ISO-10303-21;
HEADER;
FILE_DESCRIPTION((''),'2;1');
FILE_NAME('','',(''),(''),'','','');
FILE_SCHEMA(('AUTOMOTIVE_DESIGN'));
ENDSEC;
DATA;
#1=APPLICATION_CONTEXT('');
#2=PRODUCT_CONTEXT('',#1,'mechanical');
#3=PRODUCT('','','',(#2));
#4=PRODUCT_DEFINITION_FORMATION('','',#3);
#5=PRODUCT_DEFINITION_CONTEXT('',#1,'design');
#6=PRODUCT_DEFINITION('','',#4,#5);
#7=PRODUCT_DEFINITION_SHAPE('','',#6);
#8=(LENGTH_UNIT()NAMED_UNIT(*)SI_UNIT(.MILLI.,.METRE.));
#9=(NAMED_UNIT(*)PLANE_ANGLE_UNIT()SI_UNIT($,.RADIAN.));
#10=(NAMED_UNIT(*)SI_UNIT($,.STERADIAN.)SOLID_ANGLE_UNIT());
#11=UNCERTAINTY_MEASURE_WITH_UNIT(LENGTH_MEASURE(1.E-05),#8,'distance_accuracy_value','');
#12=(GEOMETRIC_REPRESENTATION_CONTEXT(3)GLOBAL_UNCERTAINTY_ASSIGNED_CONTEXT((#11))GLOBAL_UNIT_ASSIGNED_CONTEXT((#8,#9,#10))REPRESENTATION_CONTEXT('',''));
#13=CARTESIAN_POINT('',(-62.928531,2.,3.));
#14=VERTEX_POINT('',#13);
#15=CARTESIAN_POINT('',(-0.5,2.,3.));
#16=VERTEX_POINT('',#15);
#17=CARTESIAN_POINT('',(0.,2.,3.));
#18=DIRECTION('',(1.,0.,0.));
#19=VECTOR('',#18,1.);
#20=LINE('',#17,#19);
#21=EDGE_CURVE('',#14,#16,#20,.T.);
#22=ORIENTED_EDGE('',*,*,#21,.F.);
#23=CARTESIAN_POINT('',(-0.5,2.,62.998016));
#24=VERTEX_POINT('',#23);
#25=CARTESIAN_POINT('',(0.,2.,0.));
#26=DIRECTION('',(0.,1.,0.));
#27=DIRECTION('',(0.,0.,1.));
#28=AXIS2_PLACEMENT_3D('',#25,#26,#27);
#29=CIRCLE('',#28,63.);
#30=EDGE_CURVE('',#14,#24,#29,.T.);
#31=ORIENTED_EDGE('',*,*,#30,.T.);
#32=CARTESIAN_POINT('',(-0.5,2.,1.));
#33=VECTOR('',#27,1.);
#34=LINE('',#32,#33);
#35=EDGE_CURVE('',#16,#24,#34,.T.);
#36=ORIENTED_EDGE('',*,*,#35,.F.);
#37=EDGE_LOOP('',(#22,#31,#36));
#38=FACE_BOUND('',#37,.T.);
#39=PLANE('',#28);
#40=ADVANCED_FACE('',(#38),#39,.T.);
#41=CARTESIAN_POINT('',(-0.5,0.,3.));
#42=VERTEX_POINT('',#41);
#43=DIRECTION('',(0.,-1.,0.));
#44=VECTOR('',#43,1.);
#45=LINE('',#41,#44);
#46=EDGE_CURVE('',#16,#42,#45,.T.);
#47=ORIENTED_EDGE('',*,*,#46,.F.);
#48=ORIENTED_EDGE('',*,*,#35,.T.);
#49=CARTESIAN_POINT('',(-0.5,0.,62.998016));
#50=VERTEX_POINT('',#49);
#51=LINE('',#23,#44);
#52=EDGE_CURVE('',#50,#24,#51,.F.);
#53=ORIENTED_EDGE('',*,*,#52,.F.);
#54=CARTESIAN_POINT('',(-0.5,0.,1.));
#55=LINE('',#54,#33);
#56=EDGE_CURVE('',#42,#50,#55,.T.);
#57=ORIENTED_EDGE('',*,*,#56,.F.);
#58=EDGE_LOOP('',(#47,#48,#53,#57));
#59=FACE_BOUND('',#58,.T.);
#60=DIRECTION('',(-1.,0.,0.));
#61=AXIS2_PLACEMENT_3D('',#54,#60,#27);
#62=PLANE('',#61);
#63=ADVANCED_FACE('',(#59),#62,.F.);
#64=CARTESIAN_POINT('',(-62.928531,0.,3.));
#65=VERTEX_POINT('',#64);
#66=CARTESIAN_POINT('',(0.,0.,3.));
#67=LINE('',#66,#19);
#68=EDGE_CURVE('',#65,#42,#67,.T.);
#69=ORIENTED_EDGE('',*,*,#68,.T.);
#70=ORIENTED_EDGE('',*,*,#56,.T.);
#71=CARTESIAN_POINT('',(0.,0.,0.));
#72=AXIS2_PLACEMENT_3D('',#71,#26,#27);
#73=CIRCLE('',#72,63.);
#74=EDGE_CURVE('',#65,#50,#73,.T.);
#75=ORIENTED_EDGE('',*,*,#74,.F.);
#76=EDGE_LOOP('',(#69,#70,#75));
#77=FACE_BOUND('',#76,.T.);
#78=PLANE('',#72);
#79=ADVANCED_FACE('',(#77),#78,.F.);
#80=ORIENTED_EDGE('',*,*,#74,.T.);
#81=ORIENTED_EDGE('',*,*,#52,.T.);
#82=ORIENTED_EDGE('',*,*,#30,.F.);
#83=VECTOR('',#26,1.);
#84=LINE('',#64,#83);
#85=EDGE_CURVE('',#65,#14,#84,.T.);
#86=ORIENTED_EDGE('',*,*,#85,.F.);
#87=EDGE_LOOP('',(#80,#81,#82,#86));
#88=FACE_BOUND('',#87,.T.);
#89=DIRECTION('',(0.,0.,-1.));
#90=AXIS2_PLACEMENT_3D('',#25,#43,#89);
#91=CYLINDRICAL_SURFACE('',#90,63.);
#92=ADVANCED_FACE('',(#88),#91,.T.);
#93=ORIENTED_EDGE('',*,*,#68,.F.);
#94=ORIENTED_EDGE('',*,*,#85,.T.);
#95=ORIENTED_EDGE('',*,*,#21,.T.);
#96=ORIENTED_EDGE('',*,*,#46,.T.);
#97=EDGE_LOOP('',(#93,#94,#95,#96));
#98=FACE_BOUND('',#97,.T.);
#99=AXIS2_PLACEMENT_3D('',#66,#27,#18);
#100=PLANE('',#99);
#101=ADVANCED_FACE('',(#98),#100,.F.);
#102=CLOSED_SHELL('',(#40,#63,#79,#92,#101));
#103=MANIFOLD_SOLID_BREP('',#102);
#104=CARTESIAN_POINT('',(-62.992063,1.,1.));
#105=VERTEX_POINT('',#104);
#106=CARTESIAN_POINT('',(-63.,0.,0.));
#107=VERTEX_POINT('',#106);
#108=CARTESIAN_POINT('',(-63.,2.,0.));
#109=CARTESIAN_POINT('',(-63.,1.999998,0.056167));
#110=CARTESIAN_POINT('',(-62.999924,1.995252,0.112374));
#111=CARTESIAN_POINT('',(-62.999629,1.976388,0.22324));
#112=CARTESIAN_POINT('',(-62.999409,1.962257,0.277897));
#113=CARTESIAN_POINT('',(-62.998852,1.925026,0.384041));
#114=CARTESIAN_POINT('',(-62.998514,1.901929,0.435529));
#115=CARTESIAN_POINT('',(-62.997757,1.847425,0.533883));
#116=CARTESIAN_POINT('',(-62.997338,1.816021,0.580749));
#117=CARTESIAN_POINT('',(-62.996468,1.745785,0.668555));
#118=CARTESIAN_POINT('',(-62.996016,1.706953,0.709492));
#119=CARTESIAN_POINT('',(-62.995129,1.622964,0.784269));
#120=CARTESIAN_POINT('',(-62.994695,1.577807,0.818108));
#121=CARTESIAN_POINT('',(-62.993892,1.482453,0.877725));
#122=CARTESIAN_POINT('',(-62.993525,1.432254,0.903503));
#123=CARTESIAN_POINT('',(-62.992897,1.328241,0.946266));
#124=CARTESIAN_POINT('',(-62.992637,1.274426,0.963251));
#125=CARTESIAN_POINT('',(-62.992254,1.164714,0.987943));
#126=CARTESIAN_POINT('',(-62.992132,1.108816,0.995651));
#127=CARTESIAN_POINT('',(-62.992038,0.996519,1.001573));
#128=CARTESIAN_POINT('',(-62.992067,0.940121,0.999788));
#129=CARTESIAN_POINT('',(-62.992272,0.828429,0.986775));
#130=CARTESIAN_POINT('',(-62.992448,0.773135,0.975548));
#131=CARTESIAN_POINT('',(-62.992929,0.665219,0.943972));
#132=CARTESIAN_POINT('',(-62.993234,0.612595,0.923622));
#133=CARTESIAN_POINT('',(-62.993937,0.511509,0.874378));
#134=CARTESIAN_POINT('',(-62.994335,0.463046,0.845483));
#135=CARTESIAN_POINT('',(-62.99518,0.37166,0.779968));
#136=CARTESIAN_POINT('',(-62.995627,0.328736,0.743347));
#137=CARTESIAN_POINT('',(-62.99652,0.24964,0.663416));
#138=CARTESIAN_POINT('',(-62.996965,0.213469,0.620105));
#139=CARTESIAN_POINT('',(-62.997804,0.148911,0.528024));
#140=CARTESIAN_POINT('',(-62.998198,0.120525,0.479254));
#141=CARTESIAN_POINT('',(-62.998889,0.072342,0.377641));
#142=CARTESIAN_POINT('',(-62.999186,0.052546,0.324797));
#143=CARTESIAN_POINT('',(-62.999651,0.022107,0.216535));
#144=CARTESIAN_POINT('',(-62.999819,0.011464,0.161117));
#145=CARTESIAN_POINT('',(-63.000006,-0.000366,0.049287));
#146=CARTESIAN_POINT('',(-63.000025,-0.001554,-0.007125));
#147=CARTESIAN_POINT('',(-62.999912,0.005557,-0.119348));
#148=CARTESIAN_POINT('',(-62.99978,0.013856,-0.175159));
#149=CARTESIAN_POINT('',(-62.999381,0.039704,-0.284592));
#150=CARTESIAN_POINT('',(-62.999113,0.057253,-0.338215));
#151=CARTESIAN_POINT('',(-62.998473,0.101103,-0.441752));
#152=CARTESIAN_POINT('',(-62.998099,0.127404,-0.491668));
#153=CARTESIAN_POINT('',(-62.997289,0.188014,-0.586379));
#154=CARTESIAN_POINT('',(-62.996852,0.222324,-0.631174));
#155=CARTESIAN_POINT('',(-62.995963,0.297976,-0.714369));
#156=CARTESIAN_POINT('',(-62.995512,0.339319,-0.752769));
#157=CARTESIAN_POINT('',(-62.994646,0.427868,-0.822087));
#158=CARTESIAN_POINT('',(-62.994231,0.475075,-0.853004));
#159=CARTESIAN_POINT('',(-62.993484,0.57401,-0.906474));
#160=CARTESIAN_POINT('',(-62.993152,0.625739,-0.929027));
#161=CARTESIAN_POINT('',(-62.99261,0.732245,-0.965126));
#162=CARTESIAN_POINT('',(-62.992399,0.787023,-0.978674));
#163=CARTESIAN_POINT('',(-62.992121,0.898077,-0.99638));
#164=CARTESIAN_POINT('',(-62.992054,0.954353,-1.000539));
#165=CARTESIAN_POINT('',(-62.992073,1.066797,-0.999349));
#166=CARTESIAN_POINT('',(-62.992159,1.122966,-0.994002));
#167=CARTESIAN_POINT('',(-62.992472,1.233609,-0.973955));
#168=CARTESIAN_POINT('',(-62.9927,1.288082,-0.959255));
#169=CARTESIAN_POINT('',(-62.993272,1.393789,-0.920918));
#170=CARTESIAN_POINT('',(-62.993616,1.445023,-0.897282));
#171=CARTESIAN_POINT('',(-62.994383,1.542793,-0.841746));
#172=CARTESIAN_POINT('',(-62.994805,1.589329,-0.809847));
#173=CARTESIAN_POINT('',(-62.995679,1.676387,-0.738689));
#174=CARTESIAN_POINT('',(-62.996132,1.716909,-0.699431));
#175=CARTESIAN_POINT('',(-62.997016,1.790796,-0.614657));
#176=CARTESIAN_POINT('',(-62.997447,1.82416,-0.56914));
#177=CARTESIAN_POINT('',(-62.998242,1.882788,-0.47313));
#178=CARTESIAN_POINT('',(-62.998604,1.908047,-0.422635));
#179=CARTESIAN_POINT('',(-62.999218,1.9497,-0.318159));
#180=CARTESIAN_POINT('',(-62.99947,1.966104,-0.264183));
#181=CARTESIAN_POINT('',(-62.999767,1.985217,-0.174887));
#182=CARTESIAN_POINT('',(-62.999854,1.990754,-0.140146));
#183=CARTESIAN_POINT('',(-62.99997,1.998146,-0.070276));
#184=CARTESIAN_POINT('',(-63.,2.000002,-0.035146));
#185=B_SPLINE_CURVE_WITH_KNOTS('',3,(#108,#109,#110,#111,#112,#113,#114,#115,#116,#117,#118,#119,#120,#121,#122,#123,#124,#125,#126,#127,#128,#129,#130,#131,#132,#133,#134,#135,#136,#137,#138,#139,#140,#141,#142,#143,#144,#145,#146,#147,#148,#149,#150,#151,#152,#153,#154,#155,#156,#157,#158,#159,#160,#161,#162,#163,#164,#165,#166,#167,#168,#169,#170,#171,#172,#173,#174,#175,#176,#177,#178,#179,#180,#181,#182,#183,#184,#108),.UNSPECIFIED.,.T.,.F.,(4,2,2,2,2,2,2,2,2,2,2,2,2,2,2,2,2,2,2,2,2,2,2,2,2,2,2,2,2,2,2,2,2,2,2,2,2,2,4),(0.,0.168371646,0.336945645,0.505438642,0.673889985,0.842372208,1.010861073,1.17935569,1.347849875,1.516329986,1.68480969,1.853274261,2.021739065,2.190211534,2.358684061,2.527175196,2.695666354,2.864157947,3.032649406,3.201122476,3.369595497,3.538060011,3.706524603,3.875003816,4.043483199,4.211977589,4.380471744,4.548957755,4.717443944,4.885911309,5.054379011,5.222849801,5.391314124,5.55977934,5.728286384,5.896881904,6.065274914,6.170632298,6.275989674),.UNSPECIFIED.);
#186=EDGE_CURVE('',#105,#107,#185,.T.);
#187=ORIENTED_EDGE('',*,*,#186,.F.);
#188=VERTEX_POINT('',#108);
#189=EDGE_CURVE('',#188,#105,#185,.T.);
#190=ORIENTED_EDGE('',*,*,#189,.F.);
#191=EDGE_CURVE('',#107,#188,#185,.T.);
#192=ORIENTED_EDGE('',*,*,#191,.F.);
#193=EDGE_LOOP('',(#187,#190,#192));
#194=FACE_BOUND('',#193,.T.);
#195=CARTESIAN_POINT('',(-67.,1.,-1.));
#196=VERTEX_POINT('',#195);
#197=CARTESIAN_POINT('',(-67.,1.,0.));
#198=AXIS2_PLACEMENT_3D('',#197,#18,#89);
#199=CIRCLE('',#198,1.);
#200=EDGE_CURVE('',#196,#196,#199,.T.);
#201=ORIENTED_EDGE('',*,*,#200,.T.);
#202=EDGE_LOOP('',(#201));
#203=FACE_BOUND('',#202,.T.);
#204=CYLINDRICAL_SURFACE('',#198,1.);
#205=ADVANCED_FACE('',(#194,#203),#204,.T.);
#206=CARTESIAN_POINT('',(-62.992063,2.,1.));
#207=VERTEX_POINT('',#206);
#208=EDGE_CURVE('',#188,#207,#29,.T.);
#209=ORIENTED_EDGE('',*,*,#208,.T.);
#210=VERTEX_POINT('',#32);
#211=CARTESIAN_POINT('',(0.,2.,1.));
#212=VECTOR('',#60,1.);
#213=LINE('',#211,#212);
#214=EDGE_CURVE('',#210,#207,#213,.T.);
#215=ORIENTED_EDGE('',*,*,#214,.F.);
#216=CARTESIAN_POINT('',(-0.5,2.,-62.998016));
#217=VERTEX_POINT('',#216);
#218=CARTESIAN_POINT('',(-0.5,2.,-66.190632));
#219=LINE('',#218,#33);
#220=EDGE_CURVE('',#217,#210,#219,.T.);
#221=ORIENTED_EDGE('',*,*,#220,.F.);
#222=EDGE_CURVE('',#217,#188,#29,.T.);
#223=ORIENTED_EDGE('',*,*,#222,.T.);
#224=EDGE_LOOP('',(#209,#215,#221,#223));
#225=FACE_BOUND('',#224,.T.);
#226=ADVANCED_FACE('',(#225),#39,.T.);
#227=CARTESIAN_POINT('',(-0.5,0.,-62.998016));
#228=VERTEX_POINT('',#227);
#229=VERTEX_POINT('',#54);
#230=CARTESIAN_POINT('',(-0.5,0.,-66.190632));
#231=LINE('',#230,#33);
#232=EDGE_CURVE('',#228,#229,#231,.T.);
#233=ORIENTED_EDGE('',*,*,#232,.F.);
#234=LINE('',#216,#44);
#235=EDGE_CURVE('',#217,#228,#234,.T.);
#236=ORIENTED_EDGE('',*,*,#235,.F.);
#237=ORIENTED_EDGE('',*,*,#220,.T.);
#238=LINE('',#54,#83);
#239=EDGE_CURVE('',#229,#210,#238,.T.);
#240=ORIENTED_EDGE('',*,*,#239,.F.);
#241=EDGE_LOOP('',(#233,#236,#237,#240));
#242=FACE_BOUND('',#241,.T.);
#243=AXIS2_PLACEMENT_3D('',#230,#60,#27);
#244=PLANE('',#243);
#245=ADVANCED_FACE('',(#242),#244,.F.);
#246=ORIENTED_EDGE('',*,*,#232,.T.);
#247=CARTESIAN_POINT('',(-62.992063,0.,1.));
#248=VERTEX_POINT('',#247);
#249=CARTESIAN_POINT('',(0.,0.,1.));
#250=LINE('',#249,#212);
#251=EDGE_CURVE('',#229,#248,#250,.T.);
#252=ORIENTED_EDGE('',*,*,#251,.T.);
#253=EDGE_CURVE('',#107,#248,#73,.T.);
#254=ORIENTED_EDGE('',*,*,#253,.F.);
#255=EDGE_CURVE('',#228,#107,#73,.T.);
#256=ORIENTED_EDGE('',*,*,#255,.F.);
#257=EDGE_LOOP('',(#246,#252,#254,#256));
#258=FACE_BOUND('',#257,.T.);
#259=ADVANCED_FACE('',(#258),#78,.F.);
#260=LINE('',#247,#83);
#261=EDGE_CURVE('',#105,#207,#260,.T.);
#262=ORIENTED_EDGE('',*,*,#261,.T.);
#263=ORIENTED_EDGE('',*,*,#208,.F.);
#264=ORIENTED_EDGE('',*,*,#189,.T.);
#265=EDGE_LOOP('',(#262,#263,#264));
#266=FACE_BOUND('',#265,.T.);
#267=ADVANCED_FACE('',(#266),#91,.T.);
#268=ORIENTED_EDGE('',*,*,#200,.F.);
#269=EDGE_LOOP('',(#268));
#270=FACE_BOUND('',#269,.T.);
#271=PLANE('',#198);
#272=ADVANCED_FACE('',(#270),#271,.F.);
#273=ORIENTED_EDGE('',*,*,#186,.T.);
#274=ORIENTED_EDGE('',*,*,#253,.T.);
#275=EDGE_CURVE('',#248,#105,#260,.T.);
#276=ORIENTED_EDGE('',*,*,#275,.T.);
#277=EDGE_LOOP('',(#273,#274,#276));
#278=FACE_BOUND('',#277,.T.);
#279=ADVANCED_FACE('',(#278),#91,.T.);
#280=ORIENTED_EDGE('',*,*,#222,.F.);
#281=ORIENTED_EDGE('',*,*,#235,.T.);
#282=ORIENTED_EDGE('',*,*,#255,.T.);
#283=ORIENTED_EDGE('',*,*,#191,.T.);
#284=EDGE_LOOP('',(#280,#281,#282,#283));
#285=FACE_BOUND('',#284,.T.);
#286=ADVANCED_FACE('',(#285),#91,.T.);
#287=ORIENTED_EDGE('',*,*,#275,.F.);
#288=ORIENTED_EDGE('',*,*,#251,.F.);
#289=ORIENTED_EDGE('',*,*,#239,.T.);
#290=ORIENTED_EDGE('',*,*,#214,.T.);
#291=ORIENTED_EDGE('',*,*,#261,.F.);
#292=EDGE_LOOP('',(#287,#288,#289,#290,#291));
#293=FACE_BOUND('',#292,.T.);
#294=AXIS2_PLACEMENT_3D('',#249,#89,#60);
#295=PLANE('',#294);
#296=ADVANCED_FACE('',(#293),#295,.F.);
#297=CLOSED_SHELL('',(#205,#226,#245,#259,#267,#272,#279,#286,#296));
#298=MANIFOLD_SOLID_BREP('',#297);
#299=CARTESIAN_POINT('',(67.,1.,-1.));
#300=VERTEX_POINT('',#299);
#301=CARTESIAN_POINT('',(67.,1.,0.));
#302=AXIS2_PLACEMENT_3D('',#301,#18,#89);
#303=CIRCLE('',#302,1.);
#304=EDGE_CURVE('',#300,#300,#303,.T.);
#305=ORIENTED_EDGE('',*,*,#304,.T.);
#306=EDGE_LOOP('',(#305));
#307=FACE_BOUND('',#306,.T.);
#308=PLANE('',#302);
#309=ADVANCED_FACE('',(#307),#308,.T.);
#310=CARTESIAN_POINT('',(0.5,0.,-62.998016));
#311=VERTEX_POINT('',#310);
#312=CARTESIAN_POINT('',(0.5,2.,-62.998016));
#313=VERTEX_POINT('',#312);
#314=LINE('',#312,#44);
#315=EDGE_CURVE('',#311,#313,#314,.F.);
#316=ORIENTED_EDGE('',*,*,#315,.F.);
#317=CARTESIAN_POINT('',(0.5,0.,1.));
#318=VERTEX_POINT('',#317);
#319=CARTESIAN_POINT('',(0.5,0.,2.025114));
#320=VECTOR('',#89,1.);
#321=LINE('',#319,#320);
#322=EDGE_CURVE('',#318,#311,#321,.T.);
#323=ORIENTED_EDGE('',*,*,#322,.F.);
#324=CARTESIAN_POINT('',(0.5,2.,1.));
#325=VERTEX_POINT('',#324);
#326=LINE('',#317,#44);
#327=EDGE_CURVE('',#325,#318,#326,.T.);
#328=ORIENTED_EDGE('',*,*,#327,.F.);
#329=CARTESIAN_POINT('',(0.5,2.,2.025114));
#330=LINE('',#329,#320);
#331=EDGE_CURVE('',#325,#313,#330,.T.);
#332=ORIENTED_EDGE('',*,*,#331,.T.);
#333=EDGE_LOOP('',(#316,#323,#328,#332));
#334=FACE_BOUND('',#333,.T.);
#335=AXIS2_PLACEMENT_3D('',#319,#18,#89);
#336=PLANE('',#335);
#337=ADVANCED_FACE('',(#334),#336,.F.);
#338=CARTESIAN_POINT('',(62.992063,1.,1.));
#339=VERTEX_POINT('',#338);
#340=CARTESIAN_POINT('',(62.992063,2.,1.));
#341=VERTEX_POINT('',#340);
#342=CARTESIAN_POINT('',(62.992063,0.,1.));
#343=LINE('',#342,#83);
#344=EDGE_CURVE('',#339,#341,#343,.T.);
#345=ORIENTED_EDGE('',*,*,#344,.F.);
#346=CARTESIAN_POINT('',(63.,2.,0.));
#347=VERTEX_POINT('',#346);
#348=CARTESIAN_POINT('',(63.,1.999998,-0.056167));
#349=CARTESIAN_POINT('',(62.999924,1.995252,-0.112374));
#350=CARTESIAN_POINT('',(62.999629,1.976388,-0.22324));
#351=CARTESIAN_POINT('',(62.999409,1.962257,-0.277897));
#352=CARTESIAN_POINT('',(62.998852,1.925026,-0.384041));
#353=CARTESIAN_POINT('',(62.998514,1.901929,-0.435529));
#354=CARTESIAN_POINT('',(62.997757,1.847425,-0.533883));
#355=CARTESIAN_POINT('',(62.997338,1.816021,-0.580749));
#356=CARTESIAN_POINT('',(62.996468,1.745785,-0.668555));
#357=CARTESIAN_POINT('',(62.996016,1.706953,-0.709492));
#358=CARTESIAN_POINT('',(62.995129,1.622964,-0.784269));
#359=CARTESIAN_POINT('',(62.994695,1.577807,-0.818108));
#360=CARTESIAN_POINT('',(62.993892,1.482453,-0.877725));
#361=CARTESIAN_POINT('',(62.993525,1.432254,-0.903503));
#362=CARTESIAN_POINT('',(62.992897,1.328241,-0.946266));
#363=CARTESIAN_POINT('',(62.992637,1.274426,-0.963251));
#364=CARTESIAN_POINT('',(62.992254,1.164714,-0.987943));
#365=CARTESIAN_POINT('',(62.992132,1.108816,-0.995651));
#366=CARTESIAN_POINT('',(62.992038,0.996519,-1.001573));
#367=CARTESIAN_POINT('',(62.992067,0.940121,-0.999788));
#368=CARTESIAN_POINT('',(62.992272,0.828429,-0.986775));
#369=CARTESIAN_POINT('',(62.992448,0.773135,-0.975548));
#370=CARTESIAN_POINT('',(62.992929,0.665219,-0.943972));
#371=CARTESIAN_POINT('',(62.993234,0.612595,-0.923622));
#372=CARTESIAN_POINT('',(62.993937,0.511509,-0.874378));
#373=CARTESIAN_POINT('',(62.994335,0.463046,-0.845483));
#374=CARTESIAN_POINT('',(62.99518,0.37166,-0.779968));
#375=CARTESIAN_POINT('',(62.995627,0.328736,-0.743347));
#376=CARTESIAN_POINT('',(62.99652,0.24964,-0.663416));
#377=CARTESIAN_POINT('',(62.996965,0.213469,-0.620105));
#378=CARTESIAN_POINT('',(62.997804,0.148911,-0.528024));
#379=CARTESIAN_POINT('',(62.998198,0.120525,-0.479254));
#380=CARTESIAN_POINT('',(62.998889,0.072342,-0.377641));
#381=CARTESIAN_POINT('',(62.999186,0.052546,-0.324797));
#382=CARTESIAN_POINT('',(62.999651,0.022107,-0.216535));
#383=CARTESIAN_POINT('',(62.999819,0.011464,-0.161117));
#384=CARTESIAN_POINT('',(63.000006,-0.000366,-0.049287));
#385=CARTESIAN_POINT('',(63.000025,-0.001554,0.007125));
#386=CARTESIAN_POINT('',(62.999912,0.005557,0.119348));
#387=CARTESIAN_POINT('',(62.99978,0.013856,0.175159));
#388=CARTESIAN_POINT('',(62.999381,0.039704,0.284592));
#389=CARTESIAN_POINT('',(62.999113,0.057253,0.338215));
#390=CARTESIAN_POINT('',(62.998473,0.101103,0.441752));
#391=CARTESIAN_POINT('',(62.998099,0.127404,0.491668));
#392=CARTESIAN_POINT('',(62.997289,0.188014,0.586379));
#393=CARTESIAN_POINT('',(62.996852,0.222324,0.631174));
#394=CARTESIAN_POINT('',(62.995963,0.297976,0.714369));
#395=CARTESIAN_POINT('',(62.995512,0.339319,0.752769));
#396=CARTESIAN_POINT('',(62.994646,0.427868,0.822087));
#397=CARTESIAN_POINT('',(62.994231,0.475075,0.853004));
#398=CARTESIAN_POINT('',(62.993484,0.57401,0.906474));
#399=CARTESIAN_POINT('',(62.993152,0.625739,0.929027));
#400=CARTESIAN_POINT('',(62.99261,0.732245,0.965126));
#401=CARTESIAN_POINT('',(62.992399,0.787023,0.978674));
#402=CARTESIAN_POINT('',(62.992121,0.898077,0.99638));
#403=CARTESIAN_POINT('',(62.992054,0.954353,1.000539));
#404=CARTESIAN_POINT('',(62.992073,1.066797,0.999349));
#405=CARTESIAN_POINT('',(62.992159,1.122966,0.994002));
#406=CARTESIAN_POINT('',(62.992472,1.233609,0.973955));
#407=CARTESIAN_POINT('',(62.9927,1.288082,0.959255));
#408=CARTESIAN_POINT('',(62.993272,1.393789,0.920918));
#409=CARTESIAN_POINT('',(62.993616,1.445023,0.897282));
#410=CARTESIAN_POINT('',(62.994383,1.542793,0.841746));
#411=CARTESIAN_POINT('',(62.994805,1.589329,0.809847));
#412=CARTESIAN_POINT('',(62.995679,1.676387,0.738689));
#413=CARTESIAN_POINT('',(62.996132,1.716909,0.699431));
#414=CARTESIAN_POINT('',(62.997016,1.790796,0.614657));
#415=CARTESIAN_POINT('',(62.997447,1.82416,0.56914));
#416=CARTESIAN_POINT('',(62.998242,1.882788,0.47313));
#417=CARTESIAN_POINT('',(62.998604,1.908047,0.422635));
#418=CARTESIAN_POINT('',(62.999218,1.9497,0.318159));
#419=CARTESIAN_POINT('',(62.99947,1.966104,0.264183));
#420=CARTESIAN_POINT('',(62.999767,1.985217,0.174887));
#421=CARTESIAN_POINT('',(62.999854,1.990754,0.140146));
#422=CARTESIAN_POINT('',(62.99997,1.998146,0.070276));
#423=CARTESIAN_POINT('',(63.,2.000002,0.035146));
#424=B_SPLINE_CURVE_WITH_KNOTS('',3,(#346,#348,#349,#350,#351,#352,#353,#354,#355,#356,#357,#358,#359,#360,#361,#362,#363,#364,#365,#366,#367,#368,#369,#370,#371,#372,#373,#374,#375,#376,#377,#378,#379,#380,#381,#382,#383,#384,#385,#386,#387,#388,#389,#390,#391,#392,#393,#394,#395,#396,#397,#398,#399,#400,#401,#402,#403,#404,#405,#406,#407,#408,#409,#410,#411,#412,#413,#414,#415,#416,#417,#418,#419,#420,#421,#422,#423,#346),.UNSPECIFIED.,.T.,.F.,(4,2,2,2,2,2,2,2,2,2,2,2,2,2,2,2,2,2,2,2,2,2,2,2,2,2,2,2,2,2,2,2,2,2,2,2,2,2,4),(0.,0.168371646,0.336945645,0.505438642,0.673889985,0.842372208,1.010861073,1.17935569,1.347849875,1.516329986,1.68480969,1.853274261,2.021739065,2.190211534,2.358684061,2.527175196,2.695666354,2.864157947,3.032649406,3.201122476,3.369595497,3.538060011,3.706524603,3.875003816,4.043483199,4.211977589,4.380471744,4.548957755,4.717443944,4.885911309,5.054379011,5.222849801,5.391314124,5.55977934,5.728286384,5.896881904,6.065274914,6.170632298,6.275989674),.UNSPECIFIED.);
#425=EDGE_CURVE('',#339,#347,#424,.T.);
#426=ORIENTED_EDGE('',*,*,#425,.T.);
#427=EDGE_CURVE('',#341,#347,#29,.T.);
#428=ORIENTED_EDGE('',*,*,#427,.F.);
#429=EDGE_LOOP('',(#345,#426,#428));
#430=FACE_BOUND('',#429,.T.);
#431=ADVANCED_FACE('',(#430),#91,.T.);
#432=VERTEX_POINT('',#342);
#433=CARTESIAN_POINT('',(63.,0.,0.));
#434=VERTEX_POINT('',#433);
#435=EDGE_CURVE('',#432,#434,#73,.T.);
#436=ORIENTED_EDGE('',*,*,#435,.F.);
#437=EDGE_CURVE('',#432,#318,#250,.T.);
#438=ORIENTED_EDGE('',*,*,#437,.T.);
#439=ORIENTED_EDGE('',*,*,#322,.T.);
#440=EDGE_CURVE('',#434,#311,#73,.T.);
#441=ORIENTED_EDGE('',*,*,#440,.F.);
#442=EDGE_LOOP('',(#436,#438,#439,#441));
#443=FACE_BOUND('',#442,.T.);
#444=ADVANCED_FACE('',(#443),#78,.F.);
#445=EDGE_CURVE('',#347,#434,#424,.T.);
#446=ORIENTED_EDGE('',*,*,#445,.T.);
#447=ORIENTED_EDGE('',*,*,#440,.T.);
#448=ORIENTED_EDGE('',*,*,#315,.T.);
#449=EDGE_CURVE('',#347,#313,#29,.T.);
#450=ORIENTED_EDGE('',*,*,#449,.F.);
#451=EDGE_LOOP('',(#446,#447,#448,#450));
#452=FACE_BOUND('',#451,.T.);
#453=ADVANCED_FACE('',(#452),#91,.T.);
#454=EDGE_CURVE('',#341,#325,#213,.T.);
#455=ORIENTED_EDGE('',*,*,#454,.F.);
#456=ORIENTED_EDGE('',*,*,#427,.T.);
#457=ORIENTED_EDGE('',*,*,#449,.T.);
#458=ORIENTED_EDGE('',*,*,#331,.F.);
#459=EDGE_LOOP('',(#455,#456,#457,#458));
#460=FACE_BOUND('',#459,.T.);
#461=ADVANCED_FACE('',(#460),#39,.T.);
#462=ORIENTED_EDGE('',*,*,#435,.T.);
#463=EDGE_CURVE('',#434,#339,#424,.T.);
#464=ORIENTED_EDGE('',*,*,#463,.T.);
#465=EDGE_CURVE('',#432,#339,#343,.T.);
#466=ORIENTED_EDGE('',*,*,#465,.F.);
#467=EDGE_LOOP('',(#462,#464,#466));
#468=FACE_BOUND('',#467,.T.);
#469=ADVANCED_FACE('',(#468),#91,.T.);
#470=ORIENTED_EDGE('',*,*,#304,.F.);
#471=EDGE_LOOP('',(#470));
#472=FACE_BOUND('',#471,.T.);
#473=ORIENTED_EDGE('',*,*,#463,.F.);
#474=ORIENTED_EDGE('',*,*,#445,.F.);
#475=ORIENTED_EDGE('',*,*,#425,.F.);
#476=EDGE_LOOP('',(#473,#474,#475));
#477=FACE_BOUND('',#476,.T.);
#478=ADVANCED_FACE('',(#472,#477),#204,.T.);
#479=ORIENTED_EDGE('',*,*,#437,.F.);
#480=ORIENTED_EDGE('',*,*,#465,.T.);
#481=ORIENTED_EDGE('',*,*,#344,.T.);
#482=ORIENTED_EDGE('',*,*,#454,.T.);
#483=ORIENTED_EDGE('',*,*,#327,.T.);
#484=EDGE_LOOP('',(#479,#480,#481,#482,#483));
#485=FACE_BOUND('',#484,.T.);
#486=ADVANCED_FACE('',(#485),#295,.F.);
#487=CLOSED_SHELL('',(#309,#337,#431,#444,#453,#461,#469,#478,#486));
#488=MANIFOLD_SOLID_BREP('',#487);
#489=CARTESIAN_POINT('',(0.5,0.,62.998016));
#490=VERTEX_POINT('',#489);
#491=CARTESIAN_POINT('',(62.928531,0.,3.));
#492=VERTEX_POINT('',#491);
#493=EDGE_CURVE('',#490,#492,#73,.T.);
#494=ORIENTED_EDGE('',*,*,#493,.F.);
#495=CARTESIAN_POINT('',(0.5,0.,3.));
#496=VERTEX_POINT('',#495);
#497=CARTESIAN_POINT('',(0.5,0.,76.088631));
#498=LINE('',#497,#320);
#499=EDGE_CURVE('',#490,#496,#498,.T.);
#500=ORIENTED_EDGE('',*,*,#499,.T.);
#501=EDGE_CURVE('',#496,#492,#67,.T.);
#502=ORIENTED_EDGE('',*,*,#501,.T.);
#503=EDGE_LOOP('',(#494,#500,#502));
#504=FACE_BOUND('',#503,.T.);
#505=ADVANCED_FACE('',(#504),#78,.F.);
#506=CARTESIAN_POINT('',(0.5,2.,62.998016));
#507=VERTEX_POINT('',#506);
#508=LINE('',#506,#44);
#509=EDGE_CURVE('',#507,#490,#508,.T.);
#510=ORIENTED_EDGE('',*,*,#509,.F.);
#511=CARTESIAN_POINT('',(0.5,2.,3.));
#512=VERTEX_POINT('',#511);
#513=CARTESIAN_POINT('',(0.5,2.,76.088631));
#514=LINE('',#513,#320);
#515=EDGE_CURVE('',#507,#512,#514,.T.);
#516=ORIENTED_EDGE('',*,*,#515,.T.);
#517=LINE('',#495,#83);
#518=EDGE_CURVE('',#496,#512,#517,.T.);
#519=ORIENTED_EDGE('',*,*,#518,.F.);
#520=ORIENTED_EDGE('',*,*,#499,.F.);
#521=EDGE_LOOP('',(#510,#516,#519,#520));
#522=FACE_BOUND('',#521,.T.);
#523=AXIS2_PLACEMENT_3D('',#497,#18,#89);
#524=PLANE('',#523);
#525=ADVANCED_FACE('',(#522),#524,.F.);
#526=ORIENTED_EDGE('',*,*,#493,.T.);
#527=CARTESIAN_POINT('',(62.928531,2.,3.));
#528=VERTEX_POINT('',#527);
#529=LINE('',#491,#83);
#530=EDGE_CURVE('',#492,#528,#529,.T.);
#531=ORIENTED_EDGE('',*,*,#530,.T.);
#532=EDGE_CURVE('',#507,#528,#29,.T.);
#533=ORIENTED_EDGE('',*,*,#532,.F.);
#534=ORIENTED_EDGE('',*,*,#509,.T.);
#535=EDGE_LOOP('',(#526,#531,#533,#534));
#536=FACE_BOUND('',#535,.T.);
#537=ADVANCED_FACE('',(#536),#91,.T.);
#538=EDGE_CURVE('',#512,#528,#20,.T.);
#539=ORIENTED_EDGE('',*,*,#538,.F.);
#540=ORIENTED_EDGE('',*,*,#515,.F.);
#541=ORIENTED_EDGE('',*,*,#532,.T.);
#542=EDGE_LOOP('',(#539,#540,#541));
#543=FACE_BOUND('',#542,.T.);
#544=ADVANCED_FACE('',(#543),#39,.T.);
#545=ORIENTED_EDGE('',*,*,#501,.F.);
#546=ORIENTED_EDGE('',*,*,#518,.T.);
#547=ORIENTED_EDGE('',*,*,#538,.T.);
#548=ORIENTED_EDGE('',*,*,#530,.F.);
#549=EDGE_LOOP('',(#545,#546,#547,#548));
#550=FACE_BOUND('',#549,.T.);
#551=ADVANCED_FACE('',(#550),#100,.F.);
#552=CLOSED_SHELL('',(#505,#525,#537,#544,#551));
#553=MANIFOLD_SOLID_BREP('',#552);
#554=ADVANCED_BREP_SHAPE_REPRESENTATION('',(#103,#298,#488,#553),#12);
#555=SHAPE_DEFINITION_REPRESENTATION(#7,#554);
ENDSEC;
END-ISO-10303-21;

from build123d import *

# Parameters (mm, degrees)
SKETCH_1_R           = 63
EXTRUDE_1_DEPTH      = 2
EXTRUDE_2_DEPTH      = 67
EXTRUDE_2_DEPTH_BACK = 67
SKETCH_4_R           = 1
CUT_EXTRUDE_2_DEPTH  = 92.989129936
CUT_EXTRUDE_4_DEPTH  = 92.989129936
SKETCH_9_W           = 1
SKETCH_9_H           = 75.08863074
CUT_EXTRUDE_5_DEPTH  = 92.989129868


with BuildPart() as part:
    # Эскиз1 → Бобышка-Вытянуть1 (new body)
    with BuildSketch(Plane(origin=(0, 0, 0), x_dir=(1, 0, 0), z_dir=(0, 1, 0))):
        Circle(SKETCH_1_R)
    extrude(amount=EXTRUDE_1_DEPTH)

    # Эскиз4 → Бобышка-Вытянуть2 (add, two sides: drawn at the far end of the back side and taken through both)
    with BuildSketch(Plane(origin=(0, 0, 0), x_dir=(0, 0, -1), z_dir=(1, 0, 0)).offset(-EXTRUDE_2_DEPTH_BACK)):
        with Locations((0, 1)):
            Circle(SKETCH_4_R)
    extrude(amount=EXTRUDE_2_DEPTH + EXTRUDE_2_DEPTH_BACK)

    # Эскиз5 → Вырез-Вытянуть2 (cut, through all)
    with BuildSketch(Plane(origin=(0, 2, 0), x_dir=(1, 0, 0), z_dir=(0, 1, 0))):
        with BuildLine():
            Line((62.992062992, -1), (-62.992063039, -1))
            ThreePointArc((-62.992062992, -0.999999999), (-62.968237953, -2.000252254), (-62.92853089, -3))
            Line((-62.92853089, -3), (62.92853089, -3))
            ThreePointArc((62.92853089, -3), (62.968237953, -2.000252255), (62.992062992, -1))
        make_face()
    extrude(amount=-CUT_EXTRUDE_2_DEPTH, mode=Mode.SUBTRACT)


with BuildPart() as cut_extrude_2_piece_1:
    # of the separate pieces the step leaves, piece 1, a body of its own (cut_extrude_2_pieces)
    add(part.part.solids().sort_by_distance((63, 0, 0))[0])

    # Эскиз8 → Вырез-Вытянуть4 (cut, through all)
    with BuildSketch(Plane(origin=(0, 2, 0), x_dir=(1, 0, 0), z_dir=(0, 1, 0))):
        Polygon((0, 66.190632404), (-0.5, 66.190632404), (-0.5, -2.025113876), (0.5, -2.025113876), (0.5, 66.190632404), align=None)
    extrude(amount=-CUT_EXTRUDE_4_DEPTH, mode=Mode.SUBTRACT)


with BuildPart() as cut_extrude_2_piece_2:
    # of the separate pieces the step leaves, piece 2, a body of its own (cut_extrude_2_pieces)
    add(part.part.solids().sort_by_distance((-62.92853089, 0, 3))[0])

    # Эскиз9 → Вырез-Вытянуть5 (cut, through all)
    with BuildSketch(Plane(origin=(0, 2, 0), x_dir=(1, 0, 0), z_dir=(0, 1, 0))):
        with Locations((0, -38.54431537)):
            Rectangle(SKETCH_9_W, SKETCH_9_H)
    extrude(amount=-CUT_EXTRUDE_5_DEPTH, mode=Mode.SUBTRACT)


with BuildPart() as cut_extrude_4_piece_1:
    # of the separate pieces the step leaves, piece 1, a body of its own (cut_extrude_4_pieces)
    add(cut_extrude_2_piece_1.part.solids().sort_by_distance((-0.5, 0, -62.998015842))[0])


with BuildPart() as cut_extrude_4_piece_2:
    # of the separate pieces the step leaves, piece 2, a body of its own (cut_extrude_4_pieces)
    add(cut_extrude_2_piece_1.part.solids().sort_by_distance((63, 0, 0))[0])


with BuildPart() as cut_extrude_5_piece_1:
    # of the separate pieces the step leaves, piece 1, a body of its own (cut_extrude_5_pieces)
    add(cut_extrude_2_piece_2.part.solids().sort_by_distance((-62.92853089, 0, 3))[0])


with BuildPart() as cut_extrude_5_piece_2:
    # of the separate pieces the step leaves, piece 2, a body of its own (cut_extrude_5_pieces)
    add(cut_extrude_2_piece_2.part.solids().sort_by_distance((0.5, 0, 62.998015842))[0])


solid = Compound([cut_extrude_4_piece_1.part, cut_extrude_4_piece_2.part, cut_extrude_5_piece_1.part, cut_extrude_5_piece_2.part])
